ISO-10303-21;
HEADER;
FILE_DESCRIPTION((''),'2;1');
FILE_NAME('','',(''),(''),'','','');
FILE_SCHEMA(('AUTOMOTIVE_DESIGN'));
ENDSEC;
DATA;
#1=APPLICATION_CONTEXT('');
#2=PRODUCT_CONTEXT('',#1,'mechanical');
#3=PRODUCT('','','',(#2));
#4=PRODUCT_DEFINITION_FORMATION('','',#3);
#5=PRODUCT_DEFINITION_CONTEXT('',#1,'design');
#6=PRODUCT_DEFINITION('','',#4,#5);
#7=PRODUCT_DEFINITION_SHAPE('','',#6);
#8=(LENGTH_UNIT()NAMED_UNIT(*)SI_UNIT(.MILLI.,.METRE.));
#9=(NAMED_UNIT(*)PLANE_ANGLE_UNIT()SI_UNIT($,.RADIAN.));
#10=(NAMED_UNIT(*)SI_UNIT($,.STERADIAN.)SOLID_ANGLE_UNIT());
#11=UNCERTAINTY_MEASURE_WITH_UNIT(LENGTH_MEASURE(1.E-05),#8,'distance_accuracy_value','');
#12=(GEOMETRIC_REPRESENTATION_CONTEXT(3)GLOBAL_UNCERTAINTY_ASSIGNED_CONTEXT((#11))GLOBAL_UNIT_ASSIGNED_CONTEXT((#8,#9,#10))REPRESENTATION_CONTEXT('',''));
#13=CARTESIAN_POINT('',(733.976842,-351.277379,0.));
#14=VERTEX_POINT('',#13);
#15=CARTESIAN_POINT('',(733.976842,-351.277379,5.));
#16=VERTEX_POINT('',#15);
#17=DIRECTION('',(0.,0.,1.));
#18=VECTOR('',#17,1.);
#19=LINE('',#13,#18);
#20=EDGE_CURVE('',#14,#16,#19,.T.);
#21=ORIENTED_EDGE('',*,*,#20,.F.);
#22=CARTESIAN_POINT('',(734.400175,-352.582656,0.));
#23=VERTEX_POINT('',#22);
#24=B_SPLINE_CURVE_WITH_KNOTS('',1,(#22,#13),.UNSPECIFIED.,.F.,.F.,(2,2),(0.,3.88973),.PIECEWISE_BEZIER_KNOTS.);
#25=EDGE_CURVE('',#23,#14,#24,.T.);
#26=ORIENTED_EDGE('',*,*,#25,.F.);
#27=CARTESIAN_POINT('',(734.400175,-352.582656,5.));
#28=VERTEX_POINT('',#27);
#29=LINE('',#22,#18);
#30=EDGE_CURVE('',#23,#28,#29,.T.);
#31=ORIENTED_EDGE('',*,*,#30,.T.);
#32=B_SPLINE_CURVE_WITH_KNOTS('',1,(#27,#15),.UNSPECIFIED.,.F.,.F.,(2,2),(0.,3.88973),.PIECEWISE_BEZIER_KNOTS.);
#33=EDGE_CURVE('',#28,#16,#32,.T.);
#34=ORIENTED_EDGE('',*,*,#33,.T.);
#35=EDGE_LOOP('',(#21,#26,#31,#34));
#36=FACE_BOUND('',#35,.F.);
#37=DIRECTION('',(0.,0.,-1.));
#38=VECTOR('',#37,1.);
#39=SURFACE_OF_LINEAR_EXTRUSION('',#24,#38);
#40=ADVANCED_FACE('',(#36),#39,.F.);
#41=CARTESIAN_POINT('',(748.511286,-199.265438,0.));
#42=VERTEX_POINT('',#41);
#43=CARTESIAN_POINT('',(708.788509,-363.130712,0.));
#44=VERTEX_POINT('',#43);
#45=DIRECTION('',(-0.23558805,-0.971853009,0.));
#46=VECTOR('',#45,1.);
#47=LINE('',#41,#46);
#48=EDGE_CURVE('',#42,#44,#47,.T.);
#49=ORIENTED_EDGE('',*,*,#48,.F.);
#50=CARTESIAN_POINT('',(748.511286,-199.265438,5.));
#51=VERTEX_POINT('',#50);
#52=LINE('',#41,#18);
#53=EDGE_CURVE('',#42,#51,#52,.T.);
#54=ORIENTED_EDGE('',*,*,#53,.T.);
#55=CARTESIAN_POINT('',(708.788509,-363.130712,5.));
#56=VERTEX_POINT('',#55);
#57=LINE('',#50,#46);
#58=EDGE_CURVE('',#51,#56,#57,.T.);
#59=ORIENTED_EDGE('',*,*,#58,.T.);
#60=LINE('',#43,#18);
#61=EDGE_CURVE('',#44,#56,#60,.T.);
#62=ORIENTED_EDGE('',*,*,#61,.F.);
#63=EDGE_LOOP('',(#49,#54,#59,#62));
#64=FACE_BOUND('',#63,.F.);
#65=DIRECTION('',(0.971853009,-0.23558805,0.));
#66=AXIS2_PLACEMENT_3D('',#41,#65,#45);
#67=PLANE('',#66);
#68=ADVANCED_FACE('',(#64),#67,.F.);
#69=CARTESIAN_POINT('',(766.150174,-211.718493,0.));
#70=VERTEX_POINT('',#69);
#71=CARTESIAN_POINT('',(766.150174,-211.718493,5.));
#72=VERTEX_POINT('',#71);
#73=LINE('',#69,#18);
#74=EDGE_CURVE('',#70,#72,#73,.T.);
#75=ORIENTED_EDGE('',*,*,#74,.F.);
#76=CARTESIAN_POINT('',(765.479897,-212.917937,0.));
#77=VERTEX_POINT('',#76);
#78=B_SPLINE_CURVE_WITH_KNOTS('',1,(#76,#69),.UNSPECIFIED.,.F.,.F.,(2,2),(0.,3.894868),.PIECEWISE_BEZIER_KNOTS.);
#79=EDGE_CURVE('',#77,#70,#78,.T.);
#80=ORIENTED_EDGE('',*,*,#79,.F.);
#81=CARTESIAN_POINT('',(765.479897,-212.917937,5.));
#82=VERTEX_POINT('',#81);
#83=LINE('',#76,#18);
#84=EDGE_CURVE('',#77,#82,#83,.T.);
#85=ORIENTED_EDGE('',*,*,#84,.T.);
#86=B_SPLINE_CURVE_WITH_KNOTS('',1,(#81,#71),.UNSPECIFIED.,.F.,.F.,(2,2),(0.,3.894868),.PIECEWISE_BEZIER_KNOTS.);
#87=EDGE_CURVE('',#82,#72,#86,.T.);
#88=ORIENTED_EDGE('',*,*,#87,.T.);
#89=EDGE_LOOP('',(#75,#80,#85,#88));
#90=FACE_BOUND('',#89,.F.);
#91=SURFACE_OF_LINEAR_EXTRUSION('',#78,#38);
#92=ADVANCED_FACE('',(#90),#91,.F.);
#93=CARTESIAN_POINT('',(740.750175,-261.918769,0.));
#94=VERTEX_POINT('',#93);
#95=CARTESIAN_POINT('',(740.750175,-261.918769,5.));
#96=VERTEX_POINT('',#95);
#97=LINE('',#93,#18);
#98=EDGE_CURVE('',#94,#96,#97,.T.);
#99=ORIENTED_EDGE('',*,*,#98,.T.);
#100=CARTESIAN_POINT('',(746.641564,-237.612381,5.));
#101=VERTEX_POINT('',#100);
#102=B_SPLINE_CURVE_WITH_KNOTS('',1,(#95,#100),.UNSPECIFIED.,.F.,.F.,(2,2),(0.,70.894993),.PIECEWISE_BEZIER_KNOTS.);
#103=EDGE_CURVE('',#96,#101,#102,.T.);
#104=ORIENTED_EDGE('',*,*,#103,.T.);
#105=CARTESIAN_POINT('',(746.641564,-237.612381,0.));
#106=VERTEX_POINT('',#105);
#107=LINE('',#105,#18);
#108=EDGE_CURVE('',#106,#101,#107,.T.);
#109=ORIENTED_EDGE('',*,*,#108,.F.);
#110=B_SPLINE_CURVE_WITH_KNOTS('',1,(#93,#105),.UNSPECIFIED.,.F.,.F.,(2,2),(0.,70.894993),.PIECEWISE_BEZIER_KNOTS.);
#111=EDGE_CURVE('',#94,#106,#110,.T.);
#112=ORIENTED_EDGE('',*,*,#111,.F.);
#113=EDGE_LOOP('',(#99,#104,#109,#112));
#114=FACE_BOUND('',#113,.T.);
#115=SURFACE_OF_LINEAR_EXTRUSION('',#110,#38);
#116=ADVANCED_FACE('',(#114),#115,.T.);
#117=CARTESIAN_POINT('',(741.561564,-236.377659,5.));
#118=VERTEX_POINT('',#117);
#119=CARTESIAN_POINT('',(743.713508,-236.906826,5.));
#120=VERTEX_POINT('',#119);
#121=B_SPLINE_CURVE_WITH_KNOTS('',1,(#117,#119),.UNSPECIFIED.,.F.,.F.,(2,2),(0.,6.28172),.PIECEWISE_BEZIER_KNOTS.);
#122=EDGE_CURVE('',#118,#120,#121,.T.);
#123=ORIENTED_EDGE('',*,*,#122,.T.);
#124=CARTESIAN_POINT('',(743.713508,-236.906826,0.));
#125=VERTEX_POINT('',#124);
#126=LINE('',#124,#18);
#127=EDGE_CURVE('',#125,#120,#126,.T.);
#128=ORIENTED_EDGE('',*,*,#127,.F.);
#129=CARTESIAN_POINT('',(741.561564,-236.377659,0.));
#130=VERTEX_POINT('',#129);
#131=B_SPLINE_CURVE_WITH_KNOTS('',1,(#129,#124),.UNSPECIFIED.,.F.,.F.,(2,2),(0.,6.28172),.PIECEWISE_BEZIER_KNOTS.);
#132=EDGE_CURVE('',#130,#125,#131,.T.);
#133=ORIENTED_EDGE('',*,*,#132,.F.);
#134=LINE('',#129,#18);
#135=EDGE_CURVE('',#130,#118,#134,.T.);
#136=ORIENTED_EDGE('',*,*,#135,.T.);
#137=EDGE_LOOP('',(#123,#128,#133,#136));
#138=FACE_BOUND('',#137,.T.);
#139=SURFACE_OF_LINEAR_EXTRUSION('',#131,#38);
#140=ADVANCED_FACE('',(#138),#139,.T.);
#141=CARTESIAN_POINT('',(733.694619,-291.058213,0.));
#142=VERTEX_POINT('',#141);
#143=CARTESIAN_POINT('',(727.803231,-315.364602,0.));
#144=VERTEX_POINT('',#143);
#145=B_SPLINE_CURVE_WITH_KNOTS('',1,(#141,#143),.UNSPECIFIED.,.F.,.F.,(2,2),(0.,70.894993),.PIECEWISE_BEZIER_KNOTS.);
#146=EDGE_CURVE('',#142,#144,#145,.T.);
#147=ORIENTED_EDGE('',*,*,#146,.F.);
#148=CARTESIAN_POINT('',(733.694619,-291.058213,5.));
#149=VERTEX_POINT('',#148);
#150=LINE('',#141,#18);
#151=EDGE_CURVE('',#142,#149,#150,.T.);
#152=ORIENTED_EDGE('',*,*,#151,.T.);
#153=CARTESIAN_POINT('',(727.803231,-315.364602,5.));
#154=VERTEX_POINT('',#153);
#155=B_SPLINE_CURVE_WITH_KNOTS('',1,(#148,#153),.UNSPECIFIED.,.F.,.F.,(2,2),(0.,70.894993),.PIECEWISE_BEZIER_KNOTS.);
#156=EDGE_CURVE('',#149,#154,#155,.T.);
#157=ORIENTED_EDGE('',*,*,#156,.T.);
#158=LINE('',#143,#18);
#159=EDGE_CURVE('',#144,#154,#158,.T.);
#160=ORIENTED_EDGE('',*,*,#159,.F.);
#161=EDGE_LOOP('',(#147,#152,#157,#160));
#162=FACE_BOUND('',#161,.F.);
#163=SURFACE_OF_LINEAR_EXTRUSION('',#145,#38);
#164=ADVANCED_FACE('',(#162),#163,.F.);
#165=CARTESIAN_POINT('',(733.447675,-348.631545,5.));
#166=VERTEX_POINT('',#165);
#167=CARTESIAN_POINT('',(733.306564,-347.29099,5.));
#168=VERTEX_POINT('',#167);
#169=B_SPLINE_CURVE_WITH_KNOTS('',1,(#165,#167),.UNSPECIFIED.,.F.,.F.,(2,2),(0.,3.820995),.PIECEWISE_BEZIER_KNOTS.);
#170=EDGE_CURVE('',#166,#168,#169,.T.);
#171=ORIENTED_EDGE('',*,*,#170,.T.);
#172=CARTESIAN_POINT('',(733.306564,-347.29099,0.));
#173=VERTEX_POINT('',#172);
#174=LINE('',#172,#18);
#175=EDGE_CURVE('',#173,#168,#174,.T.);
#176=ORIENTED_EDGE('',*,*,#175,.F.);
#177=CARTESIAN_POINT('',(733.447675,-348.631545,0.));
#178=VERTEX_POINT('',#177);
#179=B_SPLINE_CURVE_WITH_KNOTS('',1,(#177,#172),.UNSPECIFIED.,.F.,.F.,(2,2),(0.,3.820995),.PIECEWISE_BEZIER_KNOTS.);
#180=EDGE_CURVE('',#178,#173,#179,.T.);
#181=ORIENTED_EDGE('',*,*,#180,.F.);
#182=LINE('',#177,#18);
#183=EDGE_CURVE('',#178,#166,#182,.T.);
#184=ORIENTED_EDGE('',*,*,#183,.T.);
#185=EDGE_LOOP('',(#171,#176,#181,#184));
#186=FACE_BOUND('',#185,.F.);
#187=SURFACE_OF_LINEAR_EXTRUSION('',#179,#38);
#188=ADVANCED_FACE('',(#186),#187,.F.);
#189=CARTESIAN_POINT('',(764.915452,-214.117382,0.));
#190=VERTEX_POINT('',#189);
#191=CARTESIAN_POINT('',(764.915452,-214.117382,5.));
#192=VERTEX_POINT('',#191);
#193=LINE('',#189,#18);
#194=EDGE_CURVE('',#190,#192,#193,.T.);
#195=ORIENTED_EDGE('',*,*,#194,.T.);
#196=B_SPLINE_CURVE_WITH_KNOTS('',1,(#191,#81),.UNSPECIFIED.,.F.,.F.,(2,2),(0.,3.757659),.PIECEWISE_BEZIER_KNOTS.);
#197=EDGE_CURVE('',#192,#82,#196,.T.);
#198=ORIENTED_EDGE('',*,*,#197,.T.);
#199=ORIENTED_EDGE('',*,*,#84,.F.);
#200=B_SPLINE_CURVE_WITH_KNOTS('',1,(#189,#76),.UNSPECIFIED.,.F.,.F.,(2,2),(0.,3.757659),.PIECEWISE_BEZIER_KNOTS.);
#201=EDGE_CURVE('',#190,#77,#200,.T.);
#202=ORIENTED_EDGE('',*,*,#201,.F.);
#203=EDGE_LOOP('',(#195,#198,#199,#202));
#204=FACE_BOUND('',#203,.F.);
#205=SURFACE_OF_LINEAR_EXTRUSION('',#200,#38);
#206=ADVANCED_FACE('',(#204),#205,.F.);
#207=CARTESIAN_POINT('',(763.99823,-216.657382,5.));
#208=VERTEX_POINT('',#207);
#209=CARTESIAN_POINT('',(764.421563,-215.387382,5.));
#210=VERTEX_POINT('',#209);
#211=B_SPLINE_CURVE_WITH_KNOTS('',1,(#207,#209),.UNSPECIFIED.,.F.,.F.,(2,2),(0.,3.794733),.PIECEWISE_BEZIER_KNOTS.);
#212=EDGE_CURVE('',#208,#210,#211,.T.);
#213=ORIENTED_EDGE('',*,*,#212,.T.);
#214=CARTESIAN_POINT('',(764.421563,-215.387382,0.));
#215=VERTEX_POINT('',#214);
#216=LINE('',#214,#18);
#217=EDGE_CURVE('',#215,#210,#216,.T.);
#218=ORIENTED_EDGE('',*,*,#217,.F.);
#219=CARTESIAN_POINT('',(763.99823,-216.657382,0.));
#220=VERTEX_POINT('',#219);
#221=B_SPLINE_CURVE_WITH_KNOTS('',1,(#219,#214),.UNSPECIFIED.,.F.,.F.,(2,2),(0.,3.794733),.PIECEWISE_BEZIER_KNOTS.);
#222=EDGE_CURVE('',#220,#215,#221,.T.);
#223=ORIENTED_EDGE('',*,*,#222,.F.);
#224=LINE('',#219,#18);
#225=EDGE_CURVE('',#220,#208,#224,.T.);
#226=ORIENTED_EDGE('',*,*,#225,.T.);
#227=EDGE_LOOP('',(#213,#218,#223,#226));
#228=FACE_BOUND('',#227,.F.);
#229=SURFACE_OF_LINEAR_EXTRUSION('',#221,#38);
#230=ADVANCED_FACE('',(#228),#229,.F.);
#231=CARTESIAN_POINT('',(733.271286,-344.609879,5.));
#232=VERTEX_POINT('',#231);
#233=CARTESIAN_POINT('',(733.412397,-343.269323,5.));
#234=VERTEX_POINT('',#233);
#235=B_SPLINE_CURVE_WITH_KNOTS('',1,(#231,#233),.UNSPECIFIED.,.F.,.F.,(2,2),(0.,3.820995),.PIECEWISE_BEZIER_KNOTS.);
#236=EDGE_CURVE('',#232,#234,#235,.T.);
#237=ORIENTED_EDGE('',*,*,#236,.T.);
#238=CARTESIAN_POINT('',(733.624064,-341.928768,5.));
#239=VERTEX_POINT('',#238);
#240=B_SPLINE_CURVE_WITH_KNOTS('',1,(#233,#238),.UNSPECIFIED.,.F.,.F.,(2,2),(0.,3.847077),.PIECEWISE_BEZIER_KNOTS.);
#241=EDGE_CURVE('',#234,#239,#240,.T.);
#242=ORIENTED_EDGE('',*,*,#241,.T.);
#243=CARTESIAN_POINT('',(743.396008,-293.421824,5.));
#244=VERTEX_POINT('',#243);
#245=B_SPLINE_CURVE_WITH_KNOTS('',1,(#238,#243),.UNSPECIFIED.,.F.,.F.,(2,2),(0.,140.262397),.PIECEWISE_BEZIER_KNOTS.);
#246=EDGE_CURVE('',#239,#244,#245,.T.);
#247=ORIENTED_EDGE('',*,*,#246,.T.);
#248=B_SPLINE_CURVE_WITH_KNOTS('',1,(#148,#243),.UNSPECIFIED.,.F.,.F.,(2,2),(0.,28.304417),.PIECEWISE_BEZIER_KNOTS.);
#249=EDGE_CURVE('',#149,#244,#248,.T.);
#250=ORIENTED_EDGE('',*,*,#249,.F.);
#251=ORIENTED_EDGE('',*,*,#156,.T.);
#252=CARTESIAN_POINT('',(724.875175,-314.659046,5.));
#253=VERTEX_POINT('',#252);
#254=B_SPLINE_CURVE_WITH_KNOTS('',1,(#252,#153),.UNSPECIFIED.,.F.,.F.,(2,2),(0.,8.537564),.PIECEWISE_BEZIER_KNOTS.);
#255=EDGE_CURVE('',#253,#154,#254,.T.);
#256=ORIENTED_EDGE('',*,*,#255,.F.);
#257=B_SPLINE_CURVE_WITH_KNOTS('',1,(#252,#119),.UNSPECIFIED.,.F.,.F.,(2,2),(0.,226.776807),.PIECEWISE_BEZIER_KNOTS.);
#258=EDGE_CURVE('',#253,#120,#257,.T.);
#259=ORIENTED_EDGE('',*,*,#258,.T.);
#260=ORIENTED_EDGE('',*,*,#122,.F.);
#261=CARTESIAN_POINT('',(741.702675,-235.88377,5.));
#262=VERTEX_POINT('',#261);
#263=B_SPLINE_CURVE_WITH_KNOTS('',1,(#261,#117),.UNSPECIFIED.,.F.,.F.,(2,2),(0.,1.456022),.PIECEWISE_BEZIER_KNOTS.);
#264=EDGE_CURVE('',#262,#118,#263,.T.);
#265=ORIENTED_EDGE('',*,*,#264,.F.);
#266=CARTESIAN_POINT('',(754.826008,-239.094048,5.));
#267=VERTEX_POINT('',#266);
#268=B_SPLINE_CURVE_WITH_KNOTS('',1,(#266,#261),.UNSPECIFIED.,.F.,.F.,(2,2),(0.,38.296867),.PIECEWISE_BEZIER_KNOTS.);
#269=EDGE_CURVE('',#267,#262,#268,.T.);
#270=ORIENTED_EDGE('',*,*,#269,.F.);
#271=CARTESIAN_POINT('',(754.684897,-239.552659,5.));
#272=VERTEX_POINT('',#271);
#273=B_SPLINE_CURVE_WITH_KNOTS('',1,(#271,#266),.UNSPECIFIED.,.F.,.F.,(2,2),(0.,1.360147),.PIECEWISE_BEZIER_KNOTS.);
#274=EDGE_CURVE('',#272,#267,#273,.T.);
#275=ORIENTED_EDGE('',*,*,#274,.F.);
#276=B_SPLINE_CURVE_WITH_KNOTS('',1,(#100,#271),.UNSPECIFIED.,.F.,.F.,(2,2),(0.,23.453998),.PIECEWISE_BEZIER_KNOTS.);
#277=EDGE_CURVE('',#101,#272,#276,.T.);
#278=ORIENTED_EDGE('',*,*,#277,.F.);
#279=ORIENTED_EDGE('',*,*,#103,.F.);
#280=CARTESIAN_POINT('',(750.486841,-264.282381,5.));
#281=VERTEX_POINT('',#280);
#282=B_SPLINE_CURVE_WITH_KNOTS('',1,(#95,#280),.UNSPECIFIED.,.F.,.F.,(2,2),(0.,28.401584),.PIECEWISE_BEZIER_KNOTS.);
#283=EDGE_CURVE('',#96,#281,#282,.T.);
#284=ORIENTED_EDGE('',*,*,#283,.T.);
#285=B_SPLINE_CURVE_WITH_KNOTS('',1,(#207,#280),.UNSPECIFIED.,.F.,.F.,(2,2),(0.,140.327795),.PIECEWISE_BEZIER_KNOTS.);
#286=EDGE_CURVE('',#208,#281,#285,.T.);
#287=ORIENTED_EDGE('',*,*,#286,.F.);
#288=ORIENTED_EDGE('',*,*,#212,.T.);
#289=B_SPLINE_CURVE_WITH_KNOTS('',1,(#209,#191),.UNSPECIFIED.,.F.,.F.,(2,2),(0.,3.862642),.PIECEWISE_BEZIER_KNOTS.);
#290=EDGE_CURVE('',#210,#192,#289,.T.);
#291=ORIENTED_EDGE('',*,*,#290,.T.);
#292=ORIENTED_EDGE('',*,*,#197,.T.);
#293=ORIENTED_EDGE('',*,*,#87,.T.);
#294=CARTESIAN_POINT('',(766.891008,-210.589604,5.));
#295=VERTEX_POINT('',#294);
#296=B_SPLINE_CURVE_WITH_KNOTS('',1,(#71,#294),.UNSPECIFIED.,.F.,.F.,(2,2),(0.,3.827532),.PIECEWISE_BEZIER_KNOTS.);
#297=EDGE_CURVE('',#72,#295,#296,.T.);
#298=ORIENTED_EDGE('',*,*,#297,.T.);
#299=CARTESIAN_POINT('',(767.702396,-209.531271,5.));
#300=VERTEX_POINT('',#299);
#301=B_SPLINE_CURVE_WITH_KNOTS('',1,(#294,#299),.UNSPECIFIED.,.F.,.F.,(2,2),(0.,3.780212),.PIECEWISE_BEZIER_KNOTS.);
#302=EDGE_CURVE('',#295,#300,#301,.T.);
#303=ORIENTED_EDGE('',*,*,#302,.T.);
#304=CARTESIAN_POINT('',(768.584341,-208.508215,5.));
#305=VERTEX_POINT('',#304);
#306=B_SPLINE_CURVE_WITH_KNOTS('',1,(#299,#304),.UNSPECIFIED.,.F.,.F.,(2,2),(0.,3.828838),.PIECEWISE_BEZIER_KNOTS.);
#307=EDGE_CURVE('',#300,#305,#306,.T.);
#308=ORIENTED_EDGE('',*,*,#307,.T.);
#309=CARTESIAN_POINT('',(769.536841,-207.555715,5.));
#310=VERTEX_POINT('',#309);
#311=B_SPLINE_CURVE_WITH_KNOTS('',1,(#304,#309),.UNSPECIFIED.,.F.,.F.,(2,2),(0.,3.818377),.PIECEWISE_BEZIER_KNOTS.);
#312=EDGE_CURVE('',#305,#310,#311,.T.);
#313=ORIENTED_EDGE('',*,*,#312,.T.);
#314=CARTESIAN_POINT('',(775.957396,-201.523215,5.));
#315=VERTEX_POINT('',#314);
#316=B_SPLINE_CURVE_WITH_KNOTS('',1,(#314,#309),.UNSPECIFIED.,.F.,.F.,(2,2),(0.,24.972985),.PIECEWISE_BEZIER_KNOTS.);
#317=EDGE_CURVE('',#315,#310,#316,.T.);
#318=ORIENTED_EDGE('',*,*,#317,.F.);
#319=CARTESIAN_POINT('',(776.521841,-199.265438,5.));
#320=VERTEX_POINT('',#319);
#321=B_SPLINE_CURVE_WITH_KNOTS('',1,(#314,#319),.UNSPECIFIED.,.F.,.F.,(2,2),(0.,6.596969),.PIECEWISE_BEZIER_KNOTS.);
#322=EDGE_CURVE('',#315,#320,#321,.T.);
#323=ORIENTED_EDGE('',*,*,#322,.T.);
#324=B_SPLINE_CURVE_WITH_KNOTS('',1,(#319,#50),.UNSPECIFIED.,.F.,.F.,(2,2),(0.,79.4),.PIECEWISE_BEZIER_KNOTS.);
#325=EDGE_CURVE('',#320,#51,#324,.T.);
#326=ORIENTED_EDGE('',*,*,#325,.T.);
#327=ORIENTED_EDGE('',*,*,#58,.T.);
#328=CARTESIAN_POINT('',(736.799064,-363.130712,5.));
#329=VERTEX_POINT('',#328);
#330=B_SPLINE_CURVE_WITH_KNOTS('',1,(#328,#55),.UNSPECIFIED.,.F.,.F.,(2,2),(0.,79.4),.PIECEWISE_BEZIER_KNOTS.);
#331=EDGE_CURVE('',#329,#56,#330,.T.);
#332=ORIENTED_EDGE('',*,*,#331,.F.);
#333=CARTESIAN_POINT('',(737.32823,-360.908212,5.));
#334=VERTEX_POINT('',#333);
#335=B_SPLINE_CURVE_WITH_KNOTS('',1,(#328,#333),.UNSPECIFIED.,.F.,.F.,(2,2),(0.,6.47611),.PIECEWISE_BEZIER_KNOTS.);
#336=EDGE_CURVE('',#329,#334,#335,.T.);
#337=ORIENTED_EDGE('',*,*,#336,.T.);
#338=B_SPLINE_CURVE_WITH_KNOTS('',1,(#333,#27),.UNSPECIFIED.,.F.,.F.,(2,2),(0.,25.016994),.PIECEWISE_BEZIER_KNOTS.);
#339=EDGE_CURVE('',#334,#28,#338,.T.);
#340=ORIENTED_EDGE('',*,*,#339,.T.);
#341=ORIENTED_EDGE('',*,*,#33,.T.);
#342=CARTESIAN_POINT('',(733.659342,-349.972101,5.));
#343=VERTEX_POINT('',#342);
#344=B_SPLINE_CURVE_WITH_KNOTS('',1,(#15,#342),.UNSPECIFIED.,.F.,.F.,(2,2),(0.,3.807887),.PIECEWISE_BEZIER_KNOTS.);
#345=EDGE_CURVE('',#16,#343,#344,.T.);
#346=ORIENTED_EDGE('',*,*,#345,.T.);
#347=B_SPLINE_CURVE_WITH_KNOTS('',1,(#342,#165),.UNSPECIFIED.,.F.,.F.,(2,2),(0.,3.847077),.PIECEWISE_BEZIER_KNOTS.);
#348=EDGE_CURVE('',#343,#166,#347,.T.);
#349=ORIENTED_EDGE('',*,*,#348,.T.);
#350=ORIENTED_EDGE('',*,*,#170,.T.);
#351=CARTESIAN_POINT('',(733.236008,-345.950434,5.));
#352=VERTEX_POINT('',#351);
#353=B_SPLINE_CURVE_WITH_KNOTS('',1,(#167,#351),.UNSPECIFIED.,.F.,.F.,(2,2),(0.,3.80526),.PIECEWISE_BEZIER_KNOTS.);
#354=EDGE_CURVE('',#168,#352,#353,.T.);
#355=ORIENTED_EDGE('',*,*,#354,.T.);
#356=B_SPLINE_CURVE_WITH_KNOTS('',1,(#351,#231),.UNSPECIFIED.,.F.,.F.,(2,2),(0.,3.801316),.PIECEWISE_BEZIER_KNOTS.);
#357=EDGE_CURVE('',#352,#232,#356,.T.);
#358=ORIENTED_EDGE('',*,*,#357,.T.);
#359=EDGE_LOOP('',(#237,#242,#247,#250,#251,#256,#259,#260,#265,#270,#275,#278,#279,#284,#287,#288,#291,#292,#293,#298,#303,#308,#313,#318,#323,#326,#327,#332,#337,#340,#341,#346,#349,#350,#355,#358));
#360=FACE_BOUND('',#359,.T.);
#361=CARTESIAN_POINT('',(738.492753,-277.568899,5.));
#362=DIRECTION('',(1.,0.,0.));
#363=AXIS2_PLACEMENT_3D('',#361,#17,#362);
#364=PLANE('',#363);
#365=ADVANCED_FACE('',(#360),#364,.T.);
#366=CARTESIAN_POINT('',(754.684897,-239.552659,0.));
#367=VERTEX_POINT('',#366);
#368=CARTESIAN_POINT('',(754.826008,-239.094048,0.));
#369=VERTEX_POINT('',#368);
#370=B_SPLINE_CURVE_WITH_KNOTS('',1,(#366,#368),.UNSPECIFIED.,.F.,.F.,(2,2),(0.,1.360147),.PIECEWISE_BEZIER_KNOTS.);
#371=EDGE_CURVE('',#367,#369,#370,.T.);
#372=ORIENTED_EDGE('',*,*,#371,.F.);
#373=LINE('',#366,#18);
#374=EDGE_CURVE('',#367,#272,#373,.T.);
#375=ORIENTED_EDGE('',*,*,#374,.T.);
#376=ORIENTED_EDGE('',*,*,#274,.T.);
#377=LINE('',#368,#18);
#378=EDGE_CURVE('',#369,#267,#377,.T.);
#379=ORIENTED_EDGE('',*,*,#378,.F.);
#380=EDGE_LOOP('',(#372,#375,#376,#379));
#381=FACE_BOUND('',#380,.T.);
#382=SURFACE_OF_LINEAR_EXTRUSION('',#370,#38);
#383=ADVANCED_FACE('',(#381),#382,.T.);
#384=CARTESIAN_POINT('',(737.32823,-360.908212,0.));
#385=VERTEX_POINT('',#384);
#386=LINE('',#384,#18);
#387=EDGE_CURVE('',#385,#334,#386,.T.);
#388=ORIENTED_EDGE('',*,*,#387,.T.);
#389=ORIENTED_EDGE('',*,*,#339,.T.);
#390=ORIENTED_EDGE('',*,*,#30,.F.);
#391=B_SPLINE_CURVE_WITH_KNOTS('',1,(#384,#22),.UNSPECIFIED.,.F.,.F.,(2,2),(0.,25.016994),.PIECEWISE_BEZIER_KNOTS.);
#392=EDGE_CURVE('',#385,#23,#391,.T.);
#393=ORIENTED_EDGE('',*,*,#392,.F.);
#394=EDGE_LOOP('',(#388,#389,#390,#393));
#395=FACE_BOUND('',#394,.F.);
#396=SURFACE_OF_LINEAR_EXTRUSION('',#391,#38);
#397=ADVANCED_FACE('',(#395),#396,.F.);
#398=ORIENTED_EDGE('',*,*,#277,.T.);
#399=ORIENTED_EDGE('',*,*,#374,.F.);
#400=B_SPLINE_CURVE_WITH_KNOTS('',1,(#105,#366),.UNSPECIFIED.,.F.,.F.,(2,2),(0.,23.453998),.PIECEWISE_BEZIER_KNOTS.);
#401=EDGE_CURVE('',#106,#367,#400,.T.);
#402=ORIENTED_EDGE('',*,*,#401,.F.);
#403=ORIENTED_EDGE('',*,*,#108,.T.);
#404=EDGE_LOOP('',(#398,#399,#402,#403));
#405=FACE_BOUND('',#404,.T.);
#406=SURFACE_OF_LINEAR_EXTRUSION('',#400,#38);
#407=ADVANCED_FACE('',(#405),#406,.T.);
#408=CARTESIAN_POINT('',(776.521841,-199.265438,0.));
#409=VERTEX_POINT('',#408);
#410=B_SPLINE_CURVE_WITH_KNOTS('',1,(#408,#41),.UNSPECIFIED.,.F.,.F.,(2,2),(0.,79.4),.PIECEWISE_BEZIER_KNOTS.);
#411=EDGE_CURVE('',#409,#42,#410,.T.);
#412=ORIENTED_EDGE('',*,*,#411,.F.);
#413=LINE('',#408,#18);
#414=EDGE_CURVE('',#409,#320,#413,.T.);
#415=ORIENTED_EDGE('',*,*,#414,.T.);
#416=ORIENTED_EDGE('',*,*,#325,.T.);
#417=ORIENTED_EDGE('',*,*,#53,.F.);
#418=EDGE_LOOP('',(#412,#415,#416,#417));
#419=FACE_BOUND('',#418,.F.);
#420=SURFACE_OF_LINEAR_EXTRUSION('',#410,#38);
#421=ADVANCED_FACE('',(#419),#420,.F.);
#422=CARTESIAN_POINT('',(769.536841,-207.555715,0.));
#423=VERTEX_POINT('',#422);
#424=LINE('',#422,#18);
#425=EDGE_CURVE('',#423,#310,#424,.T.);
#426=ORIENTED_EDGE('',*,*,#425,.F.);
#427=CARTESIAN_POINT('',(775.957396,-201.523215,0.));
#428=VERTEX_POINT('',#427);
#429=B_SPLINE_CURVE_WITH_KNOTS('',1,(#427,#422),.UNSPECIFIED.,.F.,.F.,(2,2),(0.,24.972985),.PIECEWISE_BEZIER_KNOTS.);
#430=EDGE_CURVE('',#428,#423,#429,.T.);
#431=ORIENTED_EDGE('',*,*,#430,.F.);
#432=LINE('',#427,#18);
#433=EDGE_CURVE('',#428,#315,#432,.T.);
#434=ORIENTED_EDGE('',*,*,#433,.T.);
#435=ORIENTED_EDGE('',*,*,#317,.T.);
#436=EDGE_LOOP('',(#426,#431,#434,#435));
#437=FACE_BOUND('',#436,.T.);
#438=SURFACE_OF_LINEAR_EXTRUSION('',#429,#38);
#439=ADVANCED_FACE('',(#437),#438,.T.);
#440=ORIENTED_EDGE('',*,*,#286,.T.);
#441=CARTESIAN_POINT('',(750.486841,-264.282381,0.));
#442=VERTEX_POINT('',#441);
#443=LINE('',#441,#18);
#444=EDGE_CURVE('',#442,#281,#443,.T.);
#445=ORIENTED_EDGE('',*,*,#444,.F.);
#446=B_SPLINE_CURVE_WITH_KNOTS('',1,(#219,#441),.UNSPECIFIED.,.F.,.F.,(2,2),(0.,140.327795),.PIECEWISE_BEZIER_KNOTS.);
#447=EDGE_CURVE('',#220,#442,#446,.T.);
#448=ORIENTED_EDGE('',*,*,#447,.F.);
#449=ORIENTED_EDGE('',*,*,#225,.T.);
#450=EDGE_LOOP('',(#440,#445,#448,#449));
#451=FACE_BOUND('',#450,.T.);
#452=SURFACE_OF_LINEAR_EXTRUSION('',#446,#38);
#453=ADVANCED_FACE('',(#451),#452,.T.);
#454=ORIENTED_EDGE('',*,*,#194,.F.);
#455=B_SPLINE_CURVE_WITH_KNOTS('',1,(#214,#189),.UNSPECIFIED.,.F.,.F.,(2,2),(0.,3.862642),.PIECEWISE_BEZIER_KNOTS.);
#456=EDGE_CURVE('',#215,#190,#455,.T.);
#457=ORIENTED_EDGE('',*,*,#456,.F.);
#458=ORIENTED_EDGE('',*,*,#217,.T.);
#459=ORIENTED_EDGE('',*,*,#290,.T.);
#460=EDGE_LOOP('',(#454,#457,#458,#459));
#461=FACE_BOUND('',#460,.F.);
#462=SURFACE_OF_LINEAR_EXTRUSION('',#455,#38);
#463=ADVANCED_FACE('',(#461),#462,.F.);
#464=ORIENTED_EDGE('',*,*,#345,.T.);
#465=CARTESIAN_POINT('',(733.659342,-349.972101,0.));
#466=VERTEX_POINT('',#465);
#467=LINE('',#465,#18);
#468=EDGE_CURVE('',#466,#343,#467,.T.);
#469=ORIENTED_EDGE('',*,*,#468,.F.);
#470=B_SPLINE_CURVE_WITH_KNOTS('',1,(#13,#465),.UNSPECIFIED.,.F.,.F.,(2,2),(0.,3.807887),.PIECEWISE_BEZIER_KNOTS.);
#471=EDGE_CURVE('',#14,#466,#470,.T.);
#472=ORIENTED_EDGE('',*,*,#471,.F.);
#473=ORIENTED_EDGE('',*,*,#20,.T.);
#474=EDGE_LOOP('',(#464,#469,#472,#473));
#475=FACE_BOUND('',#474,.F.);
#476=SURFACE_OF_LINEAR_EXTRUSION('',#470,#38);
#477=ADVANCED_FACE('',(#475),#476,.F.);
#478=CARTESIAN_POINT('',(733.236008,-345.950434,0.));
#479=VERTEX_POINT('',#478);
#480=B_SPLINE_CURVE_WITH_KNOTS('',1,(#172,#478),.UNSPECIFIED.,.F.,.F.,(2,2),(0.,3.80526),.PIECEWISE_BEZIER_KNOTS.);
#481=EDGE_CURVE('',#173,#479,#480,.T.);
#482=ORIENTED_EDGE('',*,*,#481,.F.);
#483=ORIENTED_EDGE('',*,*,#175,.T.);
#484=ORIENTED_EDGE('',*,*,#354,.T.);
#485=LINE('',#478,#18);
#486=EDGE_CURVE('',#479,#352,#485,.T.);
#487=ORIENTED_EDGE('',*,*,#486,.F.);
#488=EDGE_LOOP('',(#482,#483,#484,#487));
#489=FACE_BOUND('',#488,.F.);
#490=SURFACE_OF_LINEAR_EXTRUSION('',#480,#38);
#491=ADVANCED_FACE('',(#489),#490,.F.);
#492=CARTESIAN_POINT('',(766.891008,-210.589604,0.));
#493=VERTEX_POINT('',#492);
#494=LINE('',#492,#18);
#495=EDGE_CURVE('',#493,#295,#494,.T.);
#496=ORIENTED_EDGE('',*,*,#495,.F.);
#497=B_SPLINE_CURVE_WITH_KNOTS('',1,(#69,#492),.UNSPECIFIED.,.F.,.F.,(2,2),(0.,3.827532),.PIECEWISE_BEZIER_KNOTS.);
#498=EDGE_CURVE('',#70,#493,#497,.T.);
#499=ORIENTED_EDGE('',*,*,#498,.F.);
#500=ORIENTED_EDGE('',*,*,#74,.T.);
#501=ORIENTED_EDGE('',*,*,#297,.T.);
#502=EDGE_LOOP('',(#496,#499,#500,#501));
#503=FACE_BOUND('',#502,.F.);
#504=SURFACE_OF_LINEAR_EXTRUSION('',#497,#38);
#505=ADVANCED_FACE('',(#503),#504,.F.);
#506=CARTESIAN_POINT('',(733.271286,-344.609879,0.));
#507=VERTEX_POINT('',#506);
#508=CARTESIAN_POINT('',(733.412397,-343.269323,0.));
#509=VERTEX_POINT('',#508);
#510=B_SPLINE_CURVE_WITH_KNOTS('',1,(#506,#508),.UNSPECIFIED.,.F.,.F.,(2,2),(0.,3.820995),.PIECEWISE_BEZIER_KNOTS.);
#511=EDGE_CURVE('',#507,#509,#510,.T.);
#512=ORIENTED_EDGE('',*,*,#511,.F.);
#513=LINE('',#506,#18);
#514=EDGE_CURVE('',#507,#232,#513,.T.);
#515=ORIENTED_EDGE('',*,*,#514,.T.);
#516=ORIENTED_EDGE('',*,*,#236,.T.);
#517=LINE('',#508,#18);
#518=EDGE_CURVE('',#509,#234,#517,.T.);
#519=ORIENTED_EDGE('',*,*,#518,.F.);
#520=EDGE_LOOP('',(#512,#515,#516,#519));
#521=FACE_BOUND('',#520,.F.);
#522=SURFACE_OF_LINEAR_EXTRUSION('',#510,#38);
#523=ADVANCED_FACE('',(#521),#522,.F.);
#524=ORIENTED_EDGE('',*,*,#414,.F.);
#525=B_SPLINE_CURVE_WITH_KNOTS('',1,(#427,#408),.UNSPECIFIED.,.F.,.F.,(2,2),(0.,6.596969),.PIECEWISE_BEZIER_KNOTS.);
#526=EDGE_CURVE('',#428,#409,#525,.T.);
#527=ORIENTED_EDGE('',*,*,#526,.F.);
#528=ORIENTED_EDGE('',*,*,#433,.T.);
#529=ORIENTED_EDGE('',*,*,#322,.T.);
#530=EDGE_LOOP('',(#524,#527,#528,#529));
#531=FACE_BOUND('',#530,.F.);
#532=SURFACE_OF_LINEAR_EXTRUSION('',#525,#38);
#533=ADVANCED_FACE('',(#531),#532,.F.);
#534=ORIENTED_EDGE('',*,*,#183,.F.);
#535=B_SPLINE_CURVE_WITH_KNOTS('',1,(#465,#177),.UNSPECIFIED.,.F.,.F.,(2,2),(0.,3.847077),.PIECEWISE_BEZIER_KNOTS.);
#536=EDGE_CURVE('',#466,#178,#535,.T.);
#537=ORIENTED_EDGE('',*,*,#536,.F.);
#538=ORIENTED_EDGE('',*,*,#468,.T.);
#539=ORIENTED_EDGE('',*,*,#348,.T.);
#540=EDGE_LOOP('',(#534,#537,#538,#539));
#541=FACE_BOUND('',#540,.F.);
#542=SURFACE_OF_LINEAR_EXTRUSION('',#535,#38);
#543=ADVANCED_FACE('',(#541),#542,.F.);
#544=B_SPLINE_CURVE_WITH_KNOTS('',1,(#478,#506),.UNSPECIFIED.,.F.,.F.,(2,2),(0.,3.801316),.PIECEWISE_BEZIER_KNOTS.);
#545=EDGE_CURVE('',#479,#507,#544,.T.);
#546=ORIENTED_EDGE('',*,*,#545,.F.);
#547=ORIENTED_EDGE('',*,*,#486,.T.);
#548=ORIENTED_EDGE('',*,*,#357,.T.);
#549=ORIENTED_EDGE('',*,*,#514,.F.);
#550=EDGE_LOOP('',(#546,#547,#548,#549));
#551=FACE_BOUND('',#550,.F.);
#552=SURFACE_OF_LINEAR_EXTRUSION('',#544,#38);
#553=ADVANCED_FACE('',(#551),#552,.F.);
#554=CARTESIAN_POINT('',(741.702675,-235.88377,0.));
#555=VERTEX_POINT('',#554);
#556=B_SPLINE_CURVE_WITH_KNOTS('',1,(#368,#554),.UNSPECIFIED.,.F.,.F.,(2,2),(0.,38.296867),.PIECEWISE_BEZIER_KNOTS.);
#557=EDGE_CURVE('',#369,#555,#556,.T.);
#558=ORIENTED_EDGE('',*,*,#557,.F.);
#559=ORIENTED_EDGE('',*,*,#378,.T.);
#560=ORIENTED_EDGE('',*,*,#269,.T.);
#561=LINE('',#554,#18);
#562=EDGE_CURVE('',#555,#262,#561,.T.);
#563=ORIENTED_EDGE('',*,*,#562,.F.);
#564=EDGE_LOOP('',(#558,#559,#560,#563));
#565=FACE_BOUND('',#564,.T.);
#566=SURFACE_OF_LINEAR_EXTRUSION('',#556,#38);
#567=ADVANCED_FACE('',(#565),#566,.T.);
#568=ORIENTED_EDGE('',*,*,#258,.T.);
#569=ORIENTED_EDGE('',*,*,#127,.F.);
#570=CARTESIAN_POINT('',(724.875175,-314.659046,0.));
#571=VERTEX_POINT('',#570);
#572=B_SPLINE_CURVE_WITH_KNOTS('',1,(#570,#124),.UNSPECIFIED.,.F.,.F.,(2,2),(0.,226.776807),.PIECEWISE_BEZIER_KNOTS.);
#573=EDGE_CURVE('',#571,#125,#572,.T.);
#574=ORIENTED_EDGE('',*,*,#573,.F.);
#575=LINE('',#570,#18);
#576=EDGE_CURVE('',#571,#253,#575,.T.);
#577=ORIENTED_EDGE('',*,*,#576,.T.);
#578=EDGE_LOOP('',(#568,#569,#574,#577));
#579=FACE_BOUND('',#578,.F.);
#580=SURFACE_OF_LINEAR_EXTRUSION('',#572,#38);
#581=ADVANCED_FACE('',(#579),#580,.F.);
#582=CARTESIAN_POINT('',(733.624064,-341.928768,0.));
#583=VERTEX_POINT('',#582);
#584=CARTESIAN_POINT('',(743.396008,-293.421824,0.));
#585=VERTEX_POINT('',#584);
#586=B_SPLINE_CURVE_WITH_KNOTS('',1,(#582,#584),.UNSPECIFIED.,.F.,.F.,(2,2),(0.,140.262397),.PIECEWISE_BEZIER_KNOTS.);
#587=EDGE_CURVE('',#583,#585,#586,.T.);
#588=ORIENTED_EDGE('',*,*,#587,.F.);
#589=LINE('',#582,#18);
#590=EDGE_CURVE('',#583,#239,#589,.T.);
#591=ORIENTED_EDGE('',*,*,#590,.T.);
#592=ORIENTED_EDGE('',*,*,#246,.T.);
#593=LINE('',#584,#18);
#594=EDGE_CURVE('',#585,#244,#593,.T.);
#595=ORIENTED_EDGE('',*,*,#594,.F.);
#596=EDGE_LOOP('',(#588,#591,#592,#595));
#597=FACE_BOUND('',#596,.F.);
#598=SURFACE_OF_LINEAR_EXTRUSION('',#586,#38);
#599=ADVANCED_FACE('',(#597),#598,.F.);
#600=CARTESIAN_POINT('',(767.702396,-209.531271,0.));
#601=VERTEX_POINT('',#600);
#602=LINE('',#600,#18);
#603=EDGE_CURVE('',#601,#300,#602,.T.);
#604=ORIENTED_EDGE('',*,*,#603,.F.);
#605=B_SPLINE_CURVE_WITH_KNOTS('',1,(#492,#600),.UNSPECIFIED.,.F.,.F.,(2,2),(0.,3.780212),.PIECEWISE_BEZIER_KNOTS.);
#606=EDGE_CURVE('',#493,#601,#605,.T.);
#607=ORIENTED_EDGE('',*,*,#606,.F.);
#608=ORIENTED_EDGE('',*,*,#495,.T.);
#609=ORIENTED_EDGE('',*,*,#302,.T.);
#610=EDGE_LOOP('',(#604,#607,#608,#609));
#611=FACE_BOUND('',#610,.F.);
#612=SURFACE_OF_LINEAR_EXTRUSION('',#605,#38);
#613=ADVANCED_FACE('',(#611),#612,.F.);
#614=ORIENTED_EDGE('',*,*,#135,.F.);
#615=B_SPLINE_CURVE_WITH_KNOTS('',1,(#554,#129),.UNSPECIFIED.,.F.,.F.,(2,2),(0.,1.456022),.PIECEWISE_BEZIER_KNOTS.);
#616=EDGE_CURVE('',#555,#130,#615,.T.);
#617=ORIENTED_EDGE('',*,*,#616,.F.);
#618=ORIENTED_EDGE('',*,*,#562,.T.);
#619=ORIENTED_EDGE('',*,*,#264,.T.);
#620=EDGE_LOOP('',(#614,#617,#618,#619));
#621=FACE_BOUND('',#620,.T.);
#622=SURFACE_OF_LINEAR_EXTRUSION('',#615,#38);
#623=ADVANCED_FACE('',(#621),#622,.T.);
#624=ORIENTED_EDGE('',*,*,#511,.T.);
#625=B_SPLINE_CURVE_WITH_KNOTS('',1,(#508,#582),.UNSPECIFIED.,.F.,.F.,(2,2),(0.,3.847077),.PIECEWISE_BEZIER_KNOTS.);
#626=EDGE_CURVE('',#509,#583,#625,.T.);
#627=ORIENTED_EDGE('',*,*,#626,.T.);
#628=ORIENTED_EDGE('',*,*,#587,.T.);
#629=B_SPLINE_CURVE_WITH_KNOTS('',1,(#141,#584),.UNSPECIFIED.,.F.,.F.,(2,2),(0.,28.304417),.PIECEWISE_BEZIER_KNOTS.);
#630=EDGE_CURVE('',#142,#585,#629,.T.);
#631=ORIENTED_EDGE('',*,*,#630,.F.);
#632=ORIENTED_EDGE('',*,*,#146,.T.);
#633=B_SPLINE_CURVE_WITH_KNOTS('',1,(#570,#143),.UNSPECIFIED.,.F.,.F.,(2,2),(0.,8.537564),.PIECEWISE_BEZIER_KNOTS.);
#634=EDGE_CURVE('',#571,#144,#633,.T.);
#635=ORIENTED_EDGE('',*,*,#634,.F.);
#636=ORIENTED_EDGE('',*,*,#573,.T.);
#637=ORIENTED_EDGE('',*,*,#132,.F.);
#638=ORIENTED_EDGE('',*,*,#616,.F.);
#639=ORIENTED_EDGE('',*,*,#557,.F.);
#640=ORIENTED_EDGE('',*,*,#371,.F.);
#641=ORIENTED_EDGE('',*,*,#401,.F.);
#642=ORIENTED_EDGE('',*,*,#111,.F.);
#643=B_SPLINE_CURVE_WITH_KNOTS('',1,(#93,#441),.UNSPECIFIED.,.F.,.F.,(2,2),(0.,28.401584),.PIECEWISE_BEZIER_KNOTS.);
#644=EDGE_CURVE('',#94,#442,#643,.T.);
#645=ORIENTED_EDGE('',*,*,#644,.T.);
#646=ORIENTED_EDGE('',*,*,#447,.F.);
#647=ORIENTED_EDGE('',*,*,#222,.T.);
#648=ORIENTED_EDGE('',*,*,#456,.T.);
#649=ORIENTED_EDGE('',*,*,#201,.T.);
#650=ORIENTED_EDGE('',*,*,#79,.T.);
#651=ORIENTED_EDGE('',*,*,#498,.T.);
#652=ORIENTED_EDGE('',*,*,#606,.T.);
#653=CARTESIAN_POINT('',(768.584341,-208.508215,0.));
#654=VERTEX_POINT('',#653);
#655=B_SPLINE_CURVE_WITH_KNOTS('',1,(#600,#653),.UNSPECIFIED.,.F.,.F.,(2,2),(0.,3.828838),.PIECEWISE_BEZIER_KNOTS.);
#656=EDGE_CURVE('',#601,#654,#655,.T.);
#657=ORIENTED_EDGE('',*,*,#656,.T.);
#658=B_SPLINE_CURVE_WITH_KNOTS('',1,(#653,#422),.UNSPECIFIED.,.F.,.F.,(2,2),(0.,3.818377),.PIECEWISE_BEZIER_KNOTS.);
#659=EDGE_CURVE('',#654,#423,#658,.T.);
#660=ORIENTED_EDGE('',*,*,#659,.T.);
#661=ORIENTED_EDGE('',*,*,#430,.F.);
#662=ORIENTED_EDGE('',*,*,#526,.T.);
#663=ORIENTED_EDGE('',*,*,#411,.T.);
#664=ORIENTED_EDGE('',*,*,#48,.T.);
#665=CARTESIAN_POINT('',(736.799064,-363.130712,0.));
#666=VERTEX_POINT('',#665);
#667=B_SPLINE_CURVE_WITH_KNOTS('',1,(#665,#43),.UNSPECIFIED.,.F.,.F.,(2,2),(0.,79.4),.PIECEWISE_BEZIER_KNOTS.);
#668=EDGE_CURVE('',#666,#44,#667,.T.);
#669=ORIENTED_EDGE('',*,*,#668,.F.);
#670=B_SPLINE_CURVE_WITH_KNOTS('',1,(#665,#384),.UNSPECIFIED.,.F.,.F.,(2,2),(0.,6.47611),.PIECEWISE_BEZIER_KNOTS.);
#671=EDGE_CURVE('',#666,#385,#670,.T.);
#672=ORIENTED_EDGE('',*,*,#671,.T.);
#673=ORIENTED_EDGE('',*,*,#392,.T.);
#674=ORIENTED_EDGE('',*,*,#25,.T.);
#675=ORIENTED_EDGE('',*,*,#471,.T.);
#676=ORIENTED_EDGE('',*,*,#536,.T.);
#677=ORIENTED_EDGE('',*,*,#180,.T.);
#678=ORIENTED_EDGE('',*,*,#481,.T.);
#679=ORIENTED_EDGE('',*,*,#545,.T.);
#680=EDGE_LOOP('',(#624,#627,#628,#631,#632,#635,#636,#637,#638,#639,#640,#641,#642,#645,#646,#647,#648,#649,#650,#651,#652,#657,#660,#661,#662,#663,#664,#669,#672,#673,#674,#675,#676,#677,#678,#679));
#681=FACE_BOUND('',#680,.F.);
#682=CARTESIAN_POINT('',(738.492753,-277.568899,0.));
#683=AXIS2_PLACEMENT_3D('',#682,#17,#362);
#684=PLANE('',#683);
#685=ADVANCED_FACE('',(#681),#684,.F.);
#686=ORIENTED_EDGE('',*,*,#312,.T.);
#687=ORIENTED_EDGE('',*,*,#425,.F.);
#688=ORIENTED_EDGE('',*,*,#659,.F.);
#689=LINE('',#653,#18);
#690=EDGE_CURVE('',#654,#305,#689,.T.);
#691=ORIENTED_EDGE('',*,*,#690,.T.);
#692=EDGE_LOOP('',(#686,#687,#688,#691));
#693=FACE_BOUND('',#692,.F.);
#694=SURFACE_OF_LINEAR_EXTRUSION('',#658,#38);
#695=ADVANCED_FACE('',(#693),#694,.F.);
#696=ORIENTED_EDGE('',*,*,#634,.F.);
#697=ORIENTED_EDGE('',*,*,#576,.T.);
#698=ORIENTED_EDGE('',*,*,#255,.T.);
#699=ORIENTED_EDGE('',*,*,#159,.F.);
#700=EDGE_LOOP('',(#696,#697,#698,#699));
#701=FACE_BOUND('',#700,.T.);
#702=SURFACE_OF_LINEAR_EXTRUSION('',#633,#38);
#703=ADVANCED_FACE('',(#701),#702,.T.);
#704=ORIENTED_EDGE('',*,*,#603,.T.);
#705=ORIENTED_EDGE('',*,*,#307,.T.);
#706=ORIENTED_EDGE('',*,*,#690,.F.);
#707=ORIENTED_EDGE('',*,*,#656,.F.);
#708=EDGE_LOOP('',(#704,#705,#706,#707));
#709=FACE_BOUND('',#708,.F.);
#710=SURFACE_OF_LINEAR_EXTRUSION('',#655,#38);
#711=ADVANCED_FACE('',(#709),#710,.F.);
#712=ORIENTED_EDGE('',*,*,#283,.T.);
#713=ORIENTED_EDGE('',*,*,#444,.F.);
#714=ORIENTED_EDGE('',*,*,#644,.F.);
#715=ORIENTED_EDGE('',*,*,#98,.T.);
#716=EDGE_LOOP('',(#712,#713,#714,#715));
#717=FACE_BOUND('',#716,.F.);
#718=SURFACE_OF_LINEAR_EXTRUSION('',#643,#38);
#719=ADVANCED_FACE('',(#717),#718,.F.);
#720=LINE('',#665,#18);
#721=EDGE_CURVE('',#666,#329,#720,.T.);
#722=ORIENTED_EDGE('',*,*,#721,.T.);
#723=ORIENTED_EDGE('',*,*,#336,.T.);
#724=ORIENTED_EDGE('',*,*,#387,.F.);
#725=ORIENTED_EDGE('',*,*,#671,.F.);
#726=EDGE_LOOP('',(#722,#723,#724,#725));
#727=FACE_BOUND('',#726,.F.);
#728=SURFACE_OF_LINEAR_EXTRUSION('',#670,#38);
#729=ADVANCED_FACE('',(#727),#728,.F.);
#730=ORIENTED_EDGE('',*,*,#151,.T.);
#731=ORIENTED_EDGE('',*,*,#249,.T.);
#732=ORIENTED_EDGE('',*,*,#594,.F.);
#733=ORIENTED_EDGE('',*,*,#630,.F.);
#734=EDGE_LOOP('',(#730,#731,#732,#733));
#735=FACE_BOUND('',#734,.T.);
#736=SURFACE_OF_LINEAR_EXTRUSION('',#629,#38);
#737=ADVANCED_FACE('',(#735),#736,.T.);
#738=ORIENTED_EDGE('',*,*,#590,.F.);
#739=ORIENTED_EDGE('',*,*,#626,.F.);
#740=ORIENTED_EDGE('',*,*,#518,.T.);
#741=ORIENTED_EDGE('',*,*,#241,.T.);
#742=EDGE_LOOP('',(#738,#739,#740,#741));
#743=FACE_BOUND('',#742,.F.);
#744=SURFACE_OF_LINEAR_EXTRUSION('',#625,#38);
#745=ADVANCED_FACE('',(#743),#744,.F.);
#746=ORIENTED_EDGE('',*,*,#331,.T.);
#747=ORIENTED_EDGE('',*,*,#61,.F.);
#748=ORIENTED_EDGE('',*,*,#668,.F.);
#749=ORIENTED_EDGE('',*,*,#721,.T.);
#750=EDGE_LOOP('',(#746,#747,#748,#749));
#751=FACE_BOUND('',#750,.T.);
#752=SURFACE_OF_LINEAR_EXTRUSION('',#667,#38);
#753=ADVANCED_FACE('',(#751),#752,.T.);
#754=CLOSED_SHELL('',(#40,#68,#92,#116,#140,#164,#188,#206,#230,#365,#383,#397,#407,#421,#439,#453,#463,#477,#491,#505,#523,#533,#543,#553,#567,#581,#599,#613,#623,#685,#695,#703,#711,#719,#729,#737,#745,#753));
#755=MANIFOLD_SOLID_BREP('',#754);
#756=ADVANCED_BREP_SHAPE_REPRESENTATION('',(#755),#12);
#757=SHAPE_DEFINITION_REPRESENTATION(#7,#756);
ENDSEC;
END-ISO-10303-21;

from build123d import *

# Parameters (mm, degrees)
PAD005_DEPTH = 5


with BuildPart() as part:
    # Sketch001 → Pad005 (new body)
    with BuildSketch(Plane.XY):
        with BuildLine():
            add(Edge.make_bspline(
                [(736.799064, -363.130712), (737.32823, -360.908212)],
                knots=[0, 0, 6.47611, 6.47611], degree=1))
            add(Edge.make_bspline(
                [(737.32823, -360.908212), (734.400175, -352.582656)],
                knots=[0, 0, 25.016994, 25.016994], degree=1))
            add(Edge.make_bspline(
                [(734.400175, -352.582656), (733.976842, -351.277379)],
                knots=[0, 0, 3.88973, 3.88973], degree=1))
            add(Edge.make_bspline(
                [(733.976842, -351.277379), (733.659342, -349.972101)],
                knots=[0, 0, 3.807887, 3.807887], degree=1))
            add(Edge.make_bspline(
                [(733.659342, -349.972101), (733.447675, -348.631545)],
                knots=[0, 0, 3.847077, 3.847077], degree=1))
            add(Edge.make_bspline(
                [(733.447675, -348.631545), (733.306564, -347.29099)],
                knots=[0, 0, 3.820995, 3.820995], degree=1))
            add(Edge.make_bspline(
                [(733.306564, -347.29099), (733.236008, -345.950434)],
                knots=[0, 0, 3.80526, 3.80526], degree=1))
            add(Edge.make_bspline(
                [(733.236008, -345.950434), (733.271286, -344.609879)],
                knots=[0, 0, 3.801316, 3.801316], degree=1))
            add(Edge.make_bspline(
                [(733.271286, -344.609879), (733.412397, -343.269323)],
                knots=[0, 0, 3.820995, 3.820995], degree=1))
            add(Edge.make_bspline(
                [(733.412397, -343.269323), (733.624064, -341.928768)],
                knots=[0, 0, 3.847077, 3.847077], degree=1))
            add(Edge.make_bspline(
                [(733.624064, -341.928768), (743.396008, -293.421824)],
                knots=[0, 0, 140.262397, 140.262397], degree=1))
            add(Edge.make_bspline(
                [(733.694619, -291.058213), (743.396008, -293.421824)],
                knots=[0, 0, 28.304417, 28.304417], degree=1))
            add(Edge.make_bspline(
                [(733.694619, -291.058213), (727.803231, -315.364602)],
                knots=[0, 0, 70.894993, 70.894993], degree=1))
            add(Edge.make_bspline(
                [(724.875175, -314.659046), (727.803231, -315.364602)],
                knots=[0, 0, 8.537564, 8.537564], degree=1))
            add(Edge.make_bspline(
                [(724.875175, -314.659046), (743.713508, -236.906826)],
                knots=[0, 0, 226.776807, 226.776807], degree=1))
            add(Edge.make_bspline(
                [(741.561564, -236.377659), (743.713508, -236.906826)],
                knots=[0, 0, 6.28172, 6.28172], degree=1))
            add(Edge.make_bspline(
                [(741.702675, -235.88377), (741.561564, -236.377659)],
                knots=[0, 0, 1.456022, 1.456022], degree=1))
            add(Edge.make_bspline(
                [(754.826008, -239.094048), (741.702675, -235.88377)],
                knots=[0, 0, 38.296867, 38.296867], degree=1))
            add(Edge.make_bspline(
                [(754.684897, -239.552659), (754.826008, -239.094048)],
                knots=[0, 0, 1.360147, 1.360147], degree=1))
            add(Edge.make_bspline(
                [(746.641564, -237.612381), (754.684897, -239.552659)],
                knots=[0, 0, 23.453998, 23.453998], degree=1))
            add(Edge.make_bspline(
                [(740.750175, -261.918769), (746.641564, -237.612381)],
                knots=[0, 0, 70.894993, 70.894993], degree=1))
            add(Edge.make_bspline(
                [(740.750175, -261.918769), (750.486841, -264.282381)],
                knots=[0, 0, 28.401584, 28.401584], degree=1))
            add(Edge.make_bspline(
                [(763.99823, -216.657382), (750.486841, -264.282381)],
                knots=[0, 0, 140.327795, 140.327795], degree=1))
            add(Edge.make_bspline(
                [(763.99823, -216.657382), (764.421563, -215.387382)],
                knots=[0, 0, 3.794733, 3.794733], degree=1))
            add(Edge.make_bspline(
                [(764.421563, -215.387382), (764.915452, -214.117382)],
                knots=[0, 0, 3.862642, 3.862642], degree=1))
            add(Edge.make_bspline(
                [(764.915452, -214.117382), (765.479897, -212.917937)],
                knots=[0, 0, 3.757659, 3.757659], degree=1))
            add(Edge.make_bspline(
                [(765.479897, -212.917937), (766.150174, -211.718493)],
                knots=[0, 0, 3.894868, 3.894868], degree=1))
            add(Edge.make_bspline(
                [(766.150174, -211.718493), (766.891008, -210.589604)],
                knots=[0, 0, 3.827532, 3.827532], degree=1))
            add(Edge.make_bspline(
                [(766.891008, -210.589604), (767.702396, -209.531271)],
                knots=[0, 0, 3.780212, 3.780212], degree=1))
            add(Edge.make_bspline(
                [(767.702396, -209.531271), (768.584341, -208.508215)],
                knots=[0, 0, 3.828838, 3.828838], degree=1))
            add(Edge.make_bspline(
                [(768.584341, -208.508215), (769.536841, -207.555715)],
                knots=[0, 0, 3.818377, 3.818377], degree=1))
            add(Edge.make_bspline(
                [(775.957396, -201.523215), (769.536841, -207.555715)],
                knots=[0, 0, 24.972985, 24.972985], degree=1))
            add(Edge.make_bspline(
                [(775.957396, -201.523215), (776.521841, -199.265438)],
                knots=[0, 0, 6.596969, 6.596969], degree=1))
            add(Edge.make_bspline(
                [(776.521841, -199.265438), (748.511286, -199.265438)],
                knots=[0, 0, 79.4, 79.4], degree=1))
            Line((748.511286, -199.265438), (708.788509, -363.130712))
            add(Edge.make_bspline(
                [(736.799064, -363.130712), (708.788509, -363.130712)],
                knots=[0, 0, 79.4, 79.4], degree=1))
        make_face()
    extrude(amount=PAD005_DEPTH)


solid = part.part
